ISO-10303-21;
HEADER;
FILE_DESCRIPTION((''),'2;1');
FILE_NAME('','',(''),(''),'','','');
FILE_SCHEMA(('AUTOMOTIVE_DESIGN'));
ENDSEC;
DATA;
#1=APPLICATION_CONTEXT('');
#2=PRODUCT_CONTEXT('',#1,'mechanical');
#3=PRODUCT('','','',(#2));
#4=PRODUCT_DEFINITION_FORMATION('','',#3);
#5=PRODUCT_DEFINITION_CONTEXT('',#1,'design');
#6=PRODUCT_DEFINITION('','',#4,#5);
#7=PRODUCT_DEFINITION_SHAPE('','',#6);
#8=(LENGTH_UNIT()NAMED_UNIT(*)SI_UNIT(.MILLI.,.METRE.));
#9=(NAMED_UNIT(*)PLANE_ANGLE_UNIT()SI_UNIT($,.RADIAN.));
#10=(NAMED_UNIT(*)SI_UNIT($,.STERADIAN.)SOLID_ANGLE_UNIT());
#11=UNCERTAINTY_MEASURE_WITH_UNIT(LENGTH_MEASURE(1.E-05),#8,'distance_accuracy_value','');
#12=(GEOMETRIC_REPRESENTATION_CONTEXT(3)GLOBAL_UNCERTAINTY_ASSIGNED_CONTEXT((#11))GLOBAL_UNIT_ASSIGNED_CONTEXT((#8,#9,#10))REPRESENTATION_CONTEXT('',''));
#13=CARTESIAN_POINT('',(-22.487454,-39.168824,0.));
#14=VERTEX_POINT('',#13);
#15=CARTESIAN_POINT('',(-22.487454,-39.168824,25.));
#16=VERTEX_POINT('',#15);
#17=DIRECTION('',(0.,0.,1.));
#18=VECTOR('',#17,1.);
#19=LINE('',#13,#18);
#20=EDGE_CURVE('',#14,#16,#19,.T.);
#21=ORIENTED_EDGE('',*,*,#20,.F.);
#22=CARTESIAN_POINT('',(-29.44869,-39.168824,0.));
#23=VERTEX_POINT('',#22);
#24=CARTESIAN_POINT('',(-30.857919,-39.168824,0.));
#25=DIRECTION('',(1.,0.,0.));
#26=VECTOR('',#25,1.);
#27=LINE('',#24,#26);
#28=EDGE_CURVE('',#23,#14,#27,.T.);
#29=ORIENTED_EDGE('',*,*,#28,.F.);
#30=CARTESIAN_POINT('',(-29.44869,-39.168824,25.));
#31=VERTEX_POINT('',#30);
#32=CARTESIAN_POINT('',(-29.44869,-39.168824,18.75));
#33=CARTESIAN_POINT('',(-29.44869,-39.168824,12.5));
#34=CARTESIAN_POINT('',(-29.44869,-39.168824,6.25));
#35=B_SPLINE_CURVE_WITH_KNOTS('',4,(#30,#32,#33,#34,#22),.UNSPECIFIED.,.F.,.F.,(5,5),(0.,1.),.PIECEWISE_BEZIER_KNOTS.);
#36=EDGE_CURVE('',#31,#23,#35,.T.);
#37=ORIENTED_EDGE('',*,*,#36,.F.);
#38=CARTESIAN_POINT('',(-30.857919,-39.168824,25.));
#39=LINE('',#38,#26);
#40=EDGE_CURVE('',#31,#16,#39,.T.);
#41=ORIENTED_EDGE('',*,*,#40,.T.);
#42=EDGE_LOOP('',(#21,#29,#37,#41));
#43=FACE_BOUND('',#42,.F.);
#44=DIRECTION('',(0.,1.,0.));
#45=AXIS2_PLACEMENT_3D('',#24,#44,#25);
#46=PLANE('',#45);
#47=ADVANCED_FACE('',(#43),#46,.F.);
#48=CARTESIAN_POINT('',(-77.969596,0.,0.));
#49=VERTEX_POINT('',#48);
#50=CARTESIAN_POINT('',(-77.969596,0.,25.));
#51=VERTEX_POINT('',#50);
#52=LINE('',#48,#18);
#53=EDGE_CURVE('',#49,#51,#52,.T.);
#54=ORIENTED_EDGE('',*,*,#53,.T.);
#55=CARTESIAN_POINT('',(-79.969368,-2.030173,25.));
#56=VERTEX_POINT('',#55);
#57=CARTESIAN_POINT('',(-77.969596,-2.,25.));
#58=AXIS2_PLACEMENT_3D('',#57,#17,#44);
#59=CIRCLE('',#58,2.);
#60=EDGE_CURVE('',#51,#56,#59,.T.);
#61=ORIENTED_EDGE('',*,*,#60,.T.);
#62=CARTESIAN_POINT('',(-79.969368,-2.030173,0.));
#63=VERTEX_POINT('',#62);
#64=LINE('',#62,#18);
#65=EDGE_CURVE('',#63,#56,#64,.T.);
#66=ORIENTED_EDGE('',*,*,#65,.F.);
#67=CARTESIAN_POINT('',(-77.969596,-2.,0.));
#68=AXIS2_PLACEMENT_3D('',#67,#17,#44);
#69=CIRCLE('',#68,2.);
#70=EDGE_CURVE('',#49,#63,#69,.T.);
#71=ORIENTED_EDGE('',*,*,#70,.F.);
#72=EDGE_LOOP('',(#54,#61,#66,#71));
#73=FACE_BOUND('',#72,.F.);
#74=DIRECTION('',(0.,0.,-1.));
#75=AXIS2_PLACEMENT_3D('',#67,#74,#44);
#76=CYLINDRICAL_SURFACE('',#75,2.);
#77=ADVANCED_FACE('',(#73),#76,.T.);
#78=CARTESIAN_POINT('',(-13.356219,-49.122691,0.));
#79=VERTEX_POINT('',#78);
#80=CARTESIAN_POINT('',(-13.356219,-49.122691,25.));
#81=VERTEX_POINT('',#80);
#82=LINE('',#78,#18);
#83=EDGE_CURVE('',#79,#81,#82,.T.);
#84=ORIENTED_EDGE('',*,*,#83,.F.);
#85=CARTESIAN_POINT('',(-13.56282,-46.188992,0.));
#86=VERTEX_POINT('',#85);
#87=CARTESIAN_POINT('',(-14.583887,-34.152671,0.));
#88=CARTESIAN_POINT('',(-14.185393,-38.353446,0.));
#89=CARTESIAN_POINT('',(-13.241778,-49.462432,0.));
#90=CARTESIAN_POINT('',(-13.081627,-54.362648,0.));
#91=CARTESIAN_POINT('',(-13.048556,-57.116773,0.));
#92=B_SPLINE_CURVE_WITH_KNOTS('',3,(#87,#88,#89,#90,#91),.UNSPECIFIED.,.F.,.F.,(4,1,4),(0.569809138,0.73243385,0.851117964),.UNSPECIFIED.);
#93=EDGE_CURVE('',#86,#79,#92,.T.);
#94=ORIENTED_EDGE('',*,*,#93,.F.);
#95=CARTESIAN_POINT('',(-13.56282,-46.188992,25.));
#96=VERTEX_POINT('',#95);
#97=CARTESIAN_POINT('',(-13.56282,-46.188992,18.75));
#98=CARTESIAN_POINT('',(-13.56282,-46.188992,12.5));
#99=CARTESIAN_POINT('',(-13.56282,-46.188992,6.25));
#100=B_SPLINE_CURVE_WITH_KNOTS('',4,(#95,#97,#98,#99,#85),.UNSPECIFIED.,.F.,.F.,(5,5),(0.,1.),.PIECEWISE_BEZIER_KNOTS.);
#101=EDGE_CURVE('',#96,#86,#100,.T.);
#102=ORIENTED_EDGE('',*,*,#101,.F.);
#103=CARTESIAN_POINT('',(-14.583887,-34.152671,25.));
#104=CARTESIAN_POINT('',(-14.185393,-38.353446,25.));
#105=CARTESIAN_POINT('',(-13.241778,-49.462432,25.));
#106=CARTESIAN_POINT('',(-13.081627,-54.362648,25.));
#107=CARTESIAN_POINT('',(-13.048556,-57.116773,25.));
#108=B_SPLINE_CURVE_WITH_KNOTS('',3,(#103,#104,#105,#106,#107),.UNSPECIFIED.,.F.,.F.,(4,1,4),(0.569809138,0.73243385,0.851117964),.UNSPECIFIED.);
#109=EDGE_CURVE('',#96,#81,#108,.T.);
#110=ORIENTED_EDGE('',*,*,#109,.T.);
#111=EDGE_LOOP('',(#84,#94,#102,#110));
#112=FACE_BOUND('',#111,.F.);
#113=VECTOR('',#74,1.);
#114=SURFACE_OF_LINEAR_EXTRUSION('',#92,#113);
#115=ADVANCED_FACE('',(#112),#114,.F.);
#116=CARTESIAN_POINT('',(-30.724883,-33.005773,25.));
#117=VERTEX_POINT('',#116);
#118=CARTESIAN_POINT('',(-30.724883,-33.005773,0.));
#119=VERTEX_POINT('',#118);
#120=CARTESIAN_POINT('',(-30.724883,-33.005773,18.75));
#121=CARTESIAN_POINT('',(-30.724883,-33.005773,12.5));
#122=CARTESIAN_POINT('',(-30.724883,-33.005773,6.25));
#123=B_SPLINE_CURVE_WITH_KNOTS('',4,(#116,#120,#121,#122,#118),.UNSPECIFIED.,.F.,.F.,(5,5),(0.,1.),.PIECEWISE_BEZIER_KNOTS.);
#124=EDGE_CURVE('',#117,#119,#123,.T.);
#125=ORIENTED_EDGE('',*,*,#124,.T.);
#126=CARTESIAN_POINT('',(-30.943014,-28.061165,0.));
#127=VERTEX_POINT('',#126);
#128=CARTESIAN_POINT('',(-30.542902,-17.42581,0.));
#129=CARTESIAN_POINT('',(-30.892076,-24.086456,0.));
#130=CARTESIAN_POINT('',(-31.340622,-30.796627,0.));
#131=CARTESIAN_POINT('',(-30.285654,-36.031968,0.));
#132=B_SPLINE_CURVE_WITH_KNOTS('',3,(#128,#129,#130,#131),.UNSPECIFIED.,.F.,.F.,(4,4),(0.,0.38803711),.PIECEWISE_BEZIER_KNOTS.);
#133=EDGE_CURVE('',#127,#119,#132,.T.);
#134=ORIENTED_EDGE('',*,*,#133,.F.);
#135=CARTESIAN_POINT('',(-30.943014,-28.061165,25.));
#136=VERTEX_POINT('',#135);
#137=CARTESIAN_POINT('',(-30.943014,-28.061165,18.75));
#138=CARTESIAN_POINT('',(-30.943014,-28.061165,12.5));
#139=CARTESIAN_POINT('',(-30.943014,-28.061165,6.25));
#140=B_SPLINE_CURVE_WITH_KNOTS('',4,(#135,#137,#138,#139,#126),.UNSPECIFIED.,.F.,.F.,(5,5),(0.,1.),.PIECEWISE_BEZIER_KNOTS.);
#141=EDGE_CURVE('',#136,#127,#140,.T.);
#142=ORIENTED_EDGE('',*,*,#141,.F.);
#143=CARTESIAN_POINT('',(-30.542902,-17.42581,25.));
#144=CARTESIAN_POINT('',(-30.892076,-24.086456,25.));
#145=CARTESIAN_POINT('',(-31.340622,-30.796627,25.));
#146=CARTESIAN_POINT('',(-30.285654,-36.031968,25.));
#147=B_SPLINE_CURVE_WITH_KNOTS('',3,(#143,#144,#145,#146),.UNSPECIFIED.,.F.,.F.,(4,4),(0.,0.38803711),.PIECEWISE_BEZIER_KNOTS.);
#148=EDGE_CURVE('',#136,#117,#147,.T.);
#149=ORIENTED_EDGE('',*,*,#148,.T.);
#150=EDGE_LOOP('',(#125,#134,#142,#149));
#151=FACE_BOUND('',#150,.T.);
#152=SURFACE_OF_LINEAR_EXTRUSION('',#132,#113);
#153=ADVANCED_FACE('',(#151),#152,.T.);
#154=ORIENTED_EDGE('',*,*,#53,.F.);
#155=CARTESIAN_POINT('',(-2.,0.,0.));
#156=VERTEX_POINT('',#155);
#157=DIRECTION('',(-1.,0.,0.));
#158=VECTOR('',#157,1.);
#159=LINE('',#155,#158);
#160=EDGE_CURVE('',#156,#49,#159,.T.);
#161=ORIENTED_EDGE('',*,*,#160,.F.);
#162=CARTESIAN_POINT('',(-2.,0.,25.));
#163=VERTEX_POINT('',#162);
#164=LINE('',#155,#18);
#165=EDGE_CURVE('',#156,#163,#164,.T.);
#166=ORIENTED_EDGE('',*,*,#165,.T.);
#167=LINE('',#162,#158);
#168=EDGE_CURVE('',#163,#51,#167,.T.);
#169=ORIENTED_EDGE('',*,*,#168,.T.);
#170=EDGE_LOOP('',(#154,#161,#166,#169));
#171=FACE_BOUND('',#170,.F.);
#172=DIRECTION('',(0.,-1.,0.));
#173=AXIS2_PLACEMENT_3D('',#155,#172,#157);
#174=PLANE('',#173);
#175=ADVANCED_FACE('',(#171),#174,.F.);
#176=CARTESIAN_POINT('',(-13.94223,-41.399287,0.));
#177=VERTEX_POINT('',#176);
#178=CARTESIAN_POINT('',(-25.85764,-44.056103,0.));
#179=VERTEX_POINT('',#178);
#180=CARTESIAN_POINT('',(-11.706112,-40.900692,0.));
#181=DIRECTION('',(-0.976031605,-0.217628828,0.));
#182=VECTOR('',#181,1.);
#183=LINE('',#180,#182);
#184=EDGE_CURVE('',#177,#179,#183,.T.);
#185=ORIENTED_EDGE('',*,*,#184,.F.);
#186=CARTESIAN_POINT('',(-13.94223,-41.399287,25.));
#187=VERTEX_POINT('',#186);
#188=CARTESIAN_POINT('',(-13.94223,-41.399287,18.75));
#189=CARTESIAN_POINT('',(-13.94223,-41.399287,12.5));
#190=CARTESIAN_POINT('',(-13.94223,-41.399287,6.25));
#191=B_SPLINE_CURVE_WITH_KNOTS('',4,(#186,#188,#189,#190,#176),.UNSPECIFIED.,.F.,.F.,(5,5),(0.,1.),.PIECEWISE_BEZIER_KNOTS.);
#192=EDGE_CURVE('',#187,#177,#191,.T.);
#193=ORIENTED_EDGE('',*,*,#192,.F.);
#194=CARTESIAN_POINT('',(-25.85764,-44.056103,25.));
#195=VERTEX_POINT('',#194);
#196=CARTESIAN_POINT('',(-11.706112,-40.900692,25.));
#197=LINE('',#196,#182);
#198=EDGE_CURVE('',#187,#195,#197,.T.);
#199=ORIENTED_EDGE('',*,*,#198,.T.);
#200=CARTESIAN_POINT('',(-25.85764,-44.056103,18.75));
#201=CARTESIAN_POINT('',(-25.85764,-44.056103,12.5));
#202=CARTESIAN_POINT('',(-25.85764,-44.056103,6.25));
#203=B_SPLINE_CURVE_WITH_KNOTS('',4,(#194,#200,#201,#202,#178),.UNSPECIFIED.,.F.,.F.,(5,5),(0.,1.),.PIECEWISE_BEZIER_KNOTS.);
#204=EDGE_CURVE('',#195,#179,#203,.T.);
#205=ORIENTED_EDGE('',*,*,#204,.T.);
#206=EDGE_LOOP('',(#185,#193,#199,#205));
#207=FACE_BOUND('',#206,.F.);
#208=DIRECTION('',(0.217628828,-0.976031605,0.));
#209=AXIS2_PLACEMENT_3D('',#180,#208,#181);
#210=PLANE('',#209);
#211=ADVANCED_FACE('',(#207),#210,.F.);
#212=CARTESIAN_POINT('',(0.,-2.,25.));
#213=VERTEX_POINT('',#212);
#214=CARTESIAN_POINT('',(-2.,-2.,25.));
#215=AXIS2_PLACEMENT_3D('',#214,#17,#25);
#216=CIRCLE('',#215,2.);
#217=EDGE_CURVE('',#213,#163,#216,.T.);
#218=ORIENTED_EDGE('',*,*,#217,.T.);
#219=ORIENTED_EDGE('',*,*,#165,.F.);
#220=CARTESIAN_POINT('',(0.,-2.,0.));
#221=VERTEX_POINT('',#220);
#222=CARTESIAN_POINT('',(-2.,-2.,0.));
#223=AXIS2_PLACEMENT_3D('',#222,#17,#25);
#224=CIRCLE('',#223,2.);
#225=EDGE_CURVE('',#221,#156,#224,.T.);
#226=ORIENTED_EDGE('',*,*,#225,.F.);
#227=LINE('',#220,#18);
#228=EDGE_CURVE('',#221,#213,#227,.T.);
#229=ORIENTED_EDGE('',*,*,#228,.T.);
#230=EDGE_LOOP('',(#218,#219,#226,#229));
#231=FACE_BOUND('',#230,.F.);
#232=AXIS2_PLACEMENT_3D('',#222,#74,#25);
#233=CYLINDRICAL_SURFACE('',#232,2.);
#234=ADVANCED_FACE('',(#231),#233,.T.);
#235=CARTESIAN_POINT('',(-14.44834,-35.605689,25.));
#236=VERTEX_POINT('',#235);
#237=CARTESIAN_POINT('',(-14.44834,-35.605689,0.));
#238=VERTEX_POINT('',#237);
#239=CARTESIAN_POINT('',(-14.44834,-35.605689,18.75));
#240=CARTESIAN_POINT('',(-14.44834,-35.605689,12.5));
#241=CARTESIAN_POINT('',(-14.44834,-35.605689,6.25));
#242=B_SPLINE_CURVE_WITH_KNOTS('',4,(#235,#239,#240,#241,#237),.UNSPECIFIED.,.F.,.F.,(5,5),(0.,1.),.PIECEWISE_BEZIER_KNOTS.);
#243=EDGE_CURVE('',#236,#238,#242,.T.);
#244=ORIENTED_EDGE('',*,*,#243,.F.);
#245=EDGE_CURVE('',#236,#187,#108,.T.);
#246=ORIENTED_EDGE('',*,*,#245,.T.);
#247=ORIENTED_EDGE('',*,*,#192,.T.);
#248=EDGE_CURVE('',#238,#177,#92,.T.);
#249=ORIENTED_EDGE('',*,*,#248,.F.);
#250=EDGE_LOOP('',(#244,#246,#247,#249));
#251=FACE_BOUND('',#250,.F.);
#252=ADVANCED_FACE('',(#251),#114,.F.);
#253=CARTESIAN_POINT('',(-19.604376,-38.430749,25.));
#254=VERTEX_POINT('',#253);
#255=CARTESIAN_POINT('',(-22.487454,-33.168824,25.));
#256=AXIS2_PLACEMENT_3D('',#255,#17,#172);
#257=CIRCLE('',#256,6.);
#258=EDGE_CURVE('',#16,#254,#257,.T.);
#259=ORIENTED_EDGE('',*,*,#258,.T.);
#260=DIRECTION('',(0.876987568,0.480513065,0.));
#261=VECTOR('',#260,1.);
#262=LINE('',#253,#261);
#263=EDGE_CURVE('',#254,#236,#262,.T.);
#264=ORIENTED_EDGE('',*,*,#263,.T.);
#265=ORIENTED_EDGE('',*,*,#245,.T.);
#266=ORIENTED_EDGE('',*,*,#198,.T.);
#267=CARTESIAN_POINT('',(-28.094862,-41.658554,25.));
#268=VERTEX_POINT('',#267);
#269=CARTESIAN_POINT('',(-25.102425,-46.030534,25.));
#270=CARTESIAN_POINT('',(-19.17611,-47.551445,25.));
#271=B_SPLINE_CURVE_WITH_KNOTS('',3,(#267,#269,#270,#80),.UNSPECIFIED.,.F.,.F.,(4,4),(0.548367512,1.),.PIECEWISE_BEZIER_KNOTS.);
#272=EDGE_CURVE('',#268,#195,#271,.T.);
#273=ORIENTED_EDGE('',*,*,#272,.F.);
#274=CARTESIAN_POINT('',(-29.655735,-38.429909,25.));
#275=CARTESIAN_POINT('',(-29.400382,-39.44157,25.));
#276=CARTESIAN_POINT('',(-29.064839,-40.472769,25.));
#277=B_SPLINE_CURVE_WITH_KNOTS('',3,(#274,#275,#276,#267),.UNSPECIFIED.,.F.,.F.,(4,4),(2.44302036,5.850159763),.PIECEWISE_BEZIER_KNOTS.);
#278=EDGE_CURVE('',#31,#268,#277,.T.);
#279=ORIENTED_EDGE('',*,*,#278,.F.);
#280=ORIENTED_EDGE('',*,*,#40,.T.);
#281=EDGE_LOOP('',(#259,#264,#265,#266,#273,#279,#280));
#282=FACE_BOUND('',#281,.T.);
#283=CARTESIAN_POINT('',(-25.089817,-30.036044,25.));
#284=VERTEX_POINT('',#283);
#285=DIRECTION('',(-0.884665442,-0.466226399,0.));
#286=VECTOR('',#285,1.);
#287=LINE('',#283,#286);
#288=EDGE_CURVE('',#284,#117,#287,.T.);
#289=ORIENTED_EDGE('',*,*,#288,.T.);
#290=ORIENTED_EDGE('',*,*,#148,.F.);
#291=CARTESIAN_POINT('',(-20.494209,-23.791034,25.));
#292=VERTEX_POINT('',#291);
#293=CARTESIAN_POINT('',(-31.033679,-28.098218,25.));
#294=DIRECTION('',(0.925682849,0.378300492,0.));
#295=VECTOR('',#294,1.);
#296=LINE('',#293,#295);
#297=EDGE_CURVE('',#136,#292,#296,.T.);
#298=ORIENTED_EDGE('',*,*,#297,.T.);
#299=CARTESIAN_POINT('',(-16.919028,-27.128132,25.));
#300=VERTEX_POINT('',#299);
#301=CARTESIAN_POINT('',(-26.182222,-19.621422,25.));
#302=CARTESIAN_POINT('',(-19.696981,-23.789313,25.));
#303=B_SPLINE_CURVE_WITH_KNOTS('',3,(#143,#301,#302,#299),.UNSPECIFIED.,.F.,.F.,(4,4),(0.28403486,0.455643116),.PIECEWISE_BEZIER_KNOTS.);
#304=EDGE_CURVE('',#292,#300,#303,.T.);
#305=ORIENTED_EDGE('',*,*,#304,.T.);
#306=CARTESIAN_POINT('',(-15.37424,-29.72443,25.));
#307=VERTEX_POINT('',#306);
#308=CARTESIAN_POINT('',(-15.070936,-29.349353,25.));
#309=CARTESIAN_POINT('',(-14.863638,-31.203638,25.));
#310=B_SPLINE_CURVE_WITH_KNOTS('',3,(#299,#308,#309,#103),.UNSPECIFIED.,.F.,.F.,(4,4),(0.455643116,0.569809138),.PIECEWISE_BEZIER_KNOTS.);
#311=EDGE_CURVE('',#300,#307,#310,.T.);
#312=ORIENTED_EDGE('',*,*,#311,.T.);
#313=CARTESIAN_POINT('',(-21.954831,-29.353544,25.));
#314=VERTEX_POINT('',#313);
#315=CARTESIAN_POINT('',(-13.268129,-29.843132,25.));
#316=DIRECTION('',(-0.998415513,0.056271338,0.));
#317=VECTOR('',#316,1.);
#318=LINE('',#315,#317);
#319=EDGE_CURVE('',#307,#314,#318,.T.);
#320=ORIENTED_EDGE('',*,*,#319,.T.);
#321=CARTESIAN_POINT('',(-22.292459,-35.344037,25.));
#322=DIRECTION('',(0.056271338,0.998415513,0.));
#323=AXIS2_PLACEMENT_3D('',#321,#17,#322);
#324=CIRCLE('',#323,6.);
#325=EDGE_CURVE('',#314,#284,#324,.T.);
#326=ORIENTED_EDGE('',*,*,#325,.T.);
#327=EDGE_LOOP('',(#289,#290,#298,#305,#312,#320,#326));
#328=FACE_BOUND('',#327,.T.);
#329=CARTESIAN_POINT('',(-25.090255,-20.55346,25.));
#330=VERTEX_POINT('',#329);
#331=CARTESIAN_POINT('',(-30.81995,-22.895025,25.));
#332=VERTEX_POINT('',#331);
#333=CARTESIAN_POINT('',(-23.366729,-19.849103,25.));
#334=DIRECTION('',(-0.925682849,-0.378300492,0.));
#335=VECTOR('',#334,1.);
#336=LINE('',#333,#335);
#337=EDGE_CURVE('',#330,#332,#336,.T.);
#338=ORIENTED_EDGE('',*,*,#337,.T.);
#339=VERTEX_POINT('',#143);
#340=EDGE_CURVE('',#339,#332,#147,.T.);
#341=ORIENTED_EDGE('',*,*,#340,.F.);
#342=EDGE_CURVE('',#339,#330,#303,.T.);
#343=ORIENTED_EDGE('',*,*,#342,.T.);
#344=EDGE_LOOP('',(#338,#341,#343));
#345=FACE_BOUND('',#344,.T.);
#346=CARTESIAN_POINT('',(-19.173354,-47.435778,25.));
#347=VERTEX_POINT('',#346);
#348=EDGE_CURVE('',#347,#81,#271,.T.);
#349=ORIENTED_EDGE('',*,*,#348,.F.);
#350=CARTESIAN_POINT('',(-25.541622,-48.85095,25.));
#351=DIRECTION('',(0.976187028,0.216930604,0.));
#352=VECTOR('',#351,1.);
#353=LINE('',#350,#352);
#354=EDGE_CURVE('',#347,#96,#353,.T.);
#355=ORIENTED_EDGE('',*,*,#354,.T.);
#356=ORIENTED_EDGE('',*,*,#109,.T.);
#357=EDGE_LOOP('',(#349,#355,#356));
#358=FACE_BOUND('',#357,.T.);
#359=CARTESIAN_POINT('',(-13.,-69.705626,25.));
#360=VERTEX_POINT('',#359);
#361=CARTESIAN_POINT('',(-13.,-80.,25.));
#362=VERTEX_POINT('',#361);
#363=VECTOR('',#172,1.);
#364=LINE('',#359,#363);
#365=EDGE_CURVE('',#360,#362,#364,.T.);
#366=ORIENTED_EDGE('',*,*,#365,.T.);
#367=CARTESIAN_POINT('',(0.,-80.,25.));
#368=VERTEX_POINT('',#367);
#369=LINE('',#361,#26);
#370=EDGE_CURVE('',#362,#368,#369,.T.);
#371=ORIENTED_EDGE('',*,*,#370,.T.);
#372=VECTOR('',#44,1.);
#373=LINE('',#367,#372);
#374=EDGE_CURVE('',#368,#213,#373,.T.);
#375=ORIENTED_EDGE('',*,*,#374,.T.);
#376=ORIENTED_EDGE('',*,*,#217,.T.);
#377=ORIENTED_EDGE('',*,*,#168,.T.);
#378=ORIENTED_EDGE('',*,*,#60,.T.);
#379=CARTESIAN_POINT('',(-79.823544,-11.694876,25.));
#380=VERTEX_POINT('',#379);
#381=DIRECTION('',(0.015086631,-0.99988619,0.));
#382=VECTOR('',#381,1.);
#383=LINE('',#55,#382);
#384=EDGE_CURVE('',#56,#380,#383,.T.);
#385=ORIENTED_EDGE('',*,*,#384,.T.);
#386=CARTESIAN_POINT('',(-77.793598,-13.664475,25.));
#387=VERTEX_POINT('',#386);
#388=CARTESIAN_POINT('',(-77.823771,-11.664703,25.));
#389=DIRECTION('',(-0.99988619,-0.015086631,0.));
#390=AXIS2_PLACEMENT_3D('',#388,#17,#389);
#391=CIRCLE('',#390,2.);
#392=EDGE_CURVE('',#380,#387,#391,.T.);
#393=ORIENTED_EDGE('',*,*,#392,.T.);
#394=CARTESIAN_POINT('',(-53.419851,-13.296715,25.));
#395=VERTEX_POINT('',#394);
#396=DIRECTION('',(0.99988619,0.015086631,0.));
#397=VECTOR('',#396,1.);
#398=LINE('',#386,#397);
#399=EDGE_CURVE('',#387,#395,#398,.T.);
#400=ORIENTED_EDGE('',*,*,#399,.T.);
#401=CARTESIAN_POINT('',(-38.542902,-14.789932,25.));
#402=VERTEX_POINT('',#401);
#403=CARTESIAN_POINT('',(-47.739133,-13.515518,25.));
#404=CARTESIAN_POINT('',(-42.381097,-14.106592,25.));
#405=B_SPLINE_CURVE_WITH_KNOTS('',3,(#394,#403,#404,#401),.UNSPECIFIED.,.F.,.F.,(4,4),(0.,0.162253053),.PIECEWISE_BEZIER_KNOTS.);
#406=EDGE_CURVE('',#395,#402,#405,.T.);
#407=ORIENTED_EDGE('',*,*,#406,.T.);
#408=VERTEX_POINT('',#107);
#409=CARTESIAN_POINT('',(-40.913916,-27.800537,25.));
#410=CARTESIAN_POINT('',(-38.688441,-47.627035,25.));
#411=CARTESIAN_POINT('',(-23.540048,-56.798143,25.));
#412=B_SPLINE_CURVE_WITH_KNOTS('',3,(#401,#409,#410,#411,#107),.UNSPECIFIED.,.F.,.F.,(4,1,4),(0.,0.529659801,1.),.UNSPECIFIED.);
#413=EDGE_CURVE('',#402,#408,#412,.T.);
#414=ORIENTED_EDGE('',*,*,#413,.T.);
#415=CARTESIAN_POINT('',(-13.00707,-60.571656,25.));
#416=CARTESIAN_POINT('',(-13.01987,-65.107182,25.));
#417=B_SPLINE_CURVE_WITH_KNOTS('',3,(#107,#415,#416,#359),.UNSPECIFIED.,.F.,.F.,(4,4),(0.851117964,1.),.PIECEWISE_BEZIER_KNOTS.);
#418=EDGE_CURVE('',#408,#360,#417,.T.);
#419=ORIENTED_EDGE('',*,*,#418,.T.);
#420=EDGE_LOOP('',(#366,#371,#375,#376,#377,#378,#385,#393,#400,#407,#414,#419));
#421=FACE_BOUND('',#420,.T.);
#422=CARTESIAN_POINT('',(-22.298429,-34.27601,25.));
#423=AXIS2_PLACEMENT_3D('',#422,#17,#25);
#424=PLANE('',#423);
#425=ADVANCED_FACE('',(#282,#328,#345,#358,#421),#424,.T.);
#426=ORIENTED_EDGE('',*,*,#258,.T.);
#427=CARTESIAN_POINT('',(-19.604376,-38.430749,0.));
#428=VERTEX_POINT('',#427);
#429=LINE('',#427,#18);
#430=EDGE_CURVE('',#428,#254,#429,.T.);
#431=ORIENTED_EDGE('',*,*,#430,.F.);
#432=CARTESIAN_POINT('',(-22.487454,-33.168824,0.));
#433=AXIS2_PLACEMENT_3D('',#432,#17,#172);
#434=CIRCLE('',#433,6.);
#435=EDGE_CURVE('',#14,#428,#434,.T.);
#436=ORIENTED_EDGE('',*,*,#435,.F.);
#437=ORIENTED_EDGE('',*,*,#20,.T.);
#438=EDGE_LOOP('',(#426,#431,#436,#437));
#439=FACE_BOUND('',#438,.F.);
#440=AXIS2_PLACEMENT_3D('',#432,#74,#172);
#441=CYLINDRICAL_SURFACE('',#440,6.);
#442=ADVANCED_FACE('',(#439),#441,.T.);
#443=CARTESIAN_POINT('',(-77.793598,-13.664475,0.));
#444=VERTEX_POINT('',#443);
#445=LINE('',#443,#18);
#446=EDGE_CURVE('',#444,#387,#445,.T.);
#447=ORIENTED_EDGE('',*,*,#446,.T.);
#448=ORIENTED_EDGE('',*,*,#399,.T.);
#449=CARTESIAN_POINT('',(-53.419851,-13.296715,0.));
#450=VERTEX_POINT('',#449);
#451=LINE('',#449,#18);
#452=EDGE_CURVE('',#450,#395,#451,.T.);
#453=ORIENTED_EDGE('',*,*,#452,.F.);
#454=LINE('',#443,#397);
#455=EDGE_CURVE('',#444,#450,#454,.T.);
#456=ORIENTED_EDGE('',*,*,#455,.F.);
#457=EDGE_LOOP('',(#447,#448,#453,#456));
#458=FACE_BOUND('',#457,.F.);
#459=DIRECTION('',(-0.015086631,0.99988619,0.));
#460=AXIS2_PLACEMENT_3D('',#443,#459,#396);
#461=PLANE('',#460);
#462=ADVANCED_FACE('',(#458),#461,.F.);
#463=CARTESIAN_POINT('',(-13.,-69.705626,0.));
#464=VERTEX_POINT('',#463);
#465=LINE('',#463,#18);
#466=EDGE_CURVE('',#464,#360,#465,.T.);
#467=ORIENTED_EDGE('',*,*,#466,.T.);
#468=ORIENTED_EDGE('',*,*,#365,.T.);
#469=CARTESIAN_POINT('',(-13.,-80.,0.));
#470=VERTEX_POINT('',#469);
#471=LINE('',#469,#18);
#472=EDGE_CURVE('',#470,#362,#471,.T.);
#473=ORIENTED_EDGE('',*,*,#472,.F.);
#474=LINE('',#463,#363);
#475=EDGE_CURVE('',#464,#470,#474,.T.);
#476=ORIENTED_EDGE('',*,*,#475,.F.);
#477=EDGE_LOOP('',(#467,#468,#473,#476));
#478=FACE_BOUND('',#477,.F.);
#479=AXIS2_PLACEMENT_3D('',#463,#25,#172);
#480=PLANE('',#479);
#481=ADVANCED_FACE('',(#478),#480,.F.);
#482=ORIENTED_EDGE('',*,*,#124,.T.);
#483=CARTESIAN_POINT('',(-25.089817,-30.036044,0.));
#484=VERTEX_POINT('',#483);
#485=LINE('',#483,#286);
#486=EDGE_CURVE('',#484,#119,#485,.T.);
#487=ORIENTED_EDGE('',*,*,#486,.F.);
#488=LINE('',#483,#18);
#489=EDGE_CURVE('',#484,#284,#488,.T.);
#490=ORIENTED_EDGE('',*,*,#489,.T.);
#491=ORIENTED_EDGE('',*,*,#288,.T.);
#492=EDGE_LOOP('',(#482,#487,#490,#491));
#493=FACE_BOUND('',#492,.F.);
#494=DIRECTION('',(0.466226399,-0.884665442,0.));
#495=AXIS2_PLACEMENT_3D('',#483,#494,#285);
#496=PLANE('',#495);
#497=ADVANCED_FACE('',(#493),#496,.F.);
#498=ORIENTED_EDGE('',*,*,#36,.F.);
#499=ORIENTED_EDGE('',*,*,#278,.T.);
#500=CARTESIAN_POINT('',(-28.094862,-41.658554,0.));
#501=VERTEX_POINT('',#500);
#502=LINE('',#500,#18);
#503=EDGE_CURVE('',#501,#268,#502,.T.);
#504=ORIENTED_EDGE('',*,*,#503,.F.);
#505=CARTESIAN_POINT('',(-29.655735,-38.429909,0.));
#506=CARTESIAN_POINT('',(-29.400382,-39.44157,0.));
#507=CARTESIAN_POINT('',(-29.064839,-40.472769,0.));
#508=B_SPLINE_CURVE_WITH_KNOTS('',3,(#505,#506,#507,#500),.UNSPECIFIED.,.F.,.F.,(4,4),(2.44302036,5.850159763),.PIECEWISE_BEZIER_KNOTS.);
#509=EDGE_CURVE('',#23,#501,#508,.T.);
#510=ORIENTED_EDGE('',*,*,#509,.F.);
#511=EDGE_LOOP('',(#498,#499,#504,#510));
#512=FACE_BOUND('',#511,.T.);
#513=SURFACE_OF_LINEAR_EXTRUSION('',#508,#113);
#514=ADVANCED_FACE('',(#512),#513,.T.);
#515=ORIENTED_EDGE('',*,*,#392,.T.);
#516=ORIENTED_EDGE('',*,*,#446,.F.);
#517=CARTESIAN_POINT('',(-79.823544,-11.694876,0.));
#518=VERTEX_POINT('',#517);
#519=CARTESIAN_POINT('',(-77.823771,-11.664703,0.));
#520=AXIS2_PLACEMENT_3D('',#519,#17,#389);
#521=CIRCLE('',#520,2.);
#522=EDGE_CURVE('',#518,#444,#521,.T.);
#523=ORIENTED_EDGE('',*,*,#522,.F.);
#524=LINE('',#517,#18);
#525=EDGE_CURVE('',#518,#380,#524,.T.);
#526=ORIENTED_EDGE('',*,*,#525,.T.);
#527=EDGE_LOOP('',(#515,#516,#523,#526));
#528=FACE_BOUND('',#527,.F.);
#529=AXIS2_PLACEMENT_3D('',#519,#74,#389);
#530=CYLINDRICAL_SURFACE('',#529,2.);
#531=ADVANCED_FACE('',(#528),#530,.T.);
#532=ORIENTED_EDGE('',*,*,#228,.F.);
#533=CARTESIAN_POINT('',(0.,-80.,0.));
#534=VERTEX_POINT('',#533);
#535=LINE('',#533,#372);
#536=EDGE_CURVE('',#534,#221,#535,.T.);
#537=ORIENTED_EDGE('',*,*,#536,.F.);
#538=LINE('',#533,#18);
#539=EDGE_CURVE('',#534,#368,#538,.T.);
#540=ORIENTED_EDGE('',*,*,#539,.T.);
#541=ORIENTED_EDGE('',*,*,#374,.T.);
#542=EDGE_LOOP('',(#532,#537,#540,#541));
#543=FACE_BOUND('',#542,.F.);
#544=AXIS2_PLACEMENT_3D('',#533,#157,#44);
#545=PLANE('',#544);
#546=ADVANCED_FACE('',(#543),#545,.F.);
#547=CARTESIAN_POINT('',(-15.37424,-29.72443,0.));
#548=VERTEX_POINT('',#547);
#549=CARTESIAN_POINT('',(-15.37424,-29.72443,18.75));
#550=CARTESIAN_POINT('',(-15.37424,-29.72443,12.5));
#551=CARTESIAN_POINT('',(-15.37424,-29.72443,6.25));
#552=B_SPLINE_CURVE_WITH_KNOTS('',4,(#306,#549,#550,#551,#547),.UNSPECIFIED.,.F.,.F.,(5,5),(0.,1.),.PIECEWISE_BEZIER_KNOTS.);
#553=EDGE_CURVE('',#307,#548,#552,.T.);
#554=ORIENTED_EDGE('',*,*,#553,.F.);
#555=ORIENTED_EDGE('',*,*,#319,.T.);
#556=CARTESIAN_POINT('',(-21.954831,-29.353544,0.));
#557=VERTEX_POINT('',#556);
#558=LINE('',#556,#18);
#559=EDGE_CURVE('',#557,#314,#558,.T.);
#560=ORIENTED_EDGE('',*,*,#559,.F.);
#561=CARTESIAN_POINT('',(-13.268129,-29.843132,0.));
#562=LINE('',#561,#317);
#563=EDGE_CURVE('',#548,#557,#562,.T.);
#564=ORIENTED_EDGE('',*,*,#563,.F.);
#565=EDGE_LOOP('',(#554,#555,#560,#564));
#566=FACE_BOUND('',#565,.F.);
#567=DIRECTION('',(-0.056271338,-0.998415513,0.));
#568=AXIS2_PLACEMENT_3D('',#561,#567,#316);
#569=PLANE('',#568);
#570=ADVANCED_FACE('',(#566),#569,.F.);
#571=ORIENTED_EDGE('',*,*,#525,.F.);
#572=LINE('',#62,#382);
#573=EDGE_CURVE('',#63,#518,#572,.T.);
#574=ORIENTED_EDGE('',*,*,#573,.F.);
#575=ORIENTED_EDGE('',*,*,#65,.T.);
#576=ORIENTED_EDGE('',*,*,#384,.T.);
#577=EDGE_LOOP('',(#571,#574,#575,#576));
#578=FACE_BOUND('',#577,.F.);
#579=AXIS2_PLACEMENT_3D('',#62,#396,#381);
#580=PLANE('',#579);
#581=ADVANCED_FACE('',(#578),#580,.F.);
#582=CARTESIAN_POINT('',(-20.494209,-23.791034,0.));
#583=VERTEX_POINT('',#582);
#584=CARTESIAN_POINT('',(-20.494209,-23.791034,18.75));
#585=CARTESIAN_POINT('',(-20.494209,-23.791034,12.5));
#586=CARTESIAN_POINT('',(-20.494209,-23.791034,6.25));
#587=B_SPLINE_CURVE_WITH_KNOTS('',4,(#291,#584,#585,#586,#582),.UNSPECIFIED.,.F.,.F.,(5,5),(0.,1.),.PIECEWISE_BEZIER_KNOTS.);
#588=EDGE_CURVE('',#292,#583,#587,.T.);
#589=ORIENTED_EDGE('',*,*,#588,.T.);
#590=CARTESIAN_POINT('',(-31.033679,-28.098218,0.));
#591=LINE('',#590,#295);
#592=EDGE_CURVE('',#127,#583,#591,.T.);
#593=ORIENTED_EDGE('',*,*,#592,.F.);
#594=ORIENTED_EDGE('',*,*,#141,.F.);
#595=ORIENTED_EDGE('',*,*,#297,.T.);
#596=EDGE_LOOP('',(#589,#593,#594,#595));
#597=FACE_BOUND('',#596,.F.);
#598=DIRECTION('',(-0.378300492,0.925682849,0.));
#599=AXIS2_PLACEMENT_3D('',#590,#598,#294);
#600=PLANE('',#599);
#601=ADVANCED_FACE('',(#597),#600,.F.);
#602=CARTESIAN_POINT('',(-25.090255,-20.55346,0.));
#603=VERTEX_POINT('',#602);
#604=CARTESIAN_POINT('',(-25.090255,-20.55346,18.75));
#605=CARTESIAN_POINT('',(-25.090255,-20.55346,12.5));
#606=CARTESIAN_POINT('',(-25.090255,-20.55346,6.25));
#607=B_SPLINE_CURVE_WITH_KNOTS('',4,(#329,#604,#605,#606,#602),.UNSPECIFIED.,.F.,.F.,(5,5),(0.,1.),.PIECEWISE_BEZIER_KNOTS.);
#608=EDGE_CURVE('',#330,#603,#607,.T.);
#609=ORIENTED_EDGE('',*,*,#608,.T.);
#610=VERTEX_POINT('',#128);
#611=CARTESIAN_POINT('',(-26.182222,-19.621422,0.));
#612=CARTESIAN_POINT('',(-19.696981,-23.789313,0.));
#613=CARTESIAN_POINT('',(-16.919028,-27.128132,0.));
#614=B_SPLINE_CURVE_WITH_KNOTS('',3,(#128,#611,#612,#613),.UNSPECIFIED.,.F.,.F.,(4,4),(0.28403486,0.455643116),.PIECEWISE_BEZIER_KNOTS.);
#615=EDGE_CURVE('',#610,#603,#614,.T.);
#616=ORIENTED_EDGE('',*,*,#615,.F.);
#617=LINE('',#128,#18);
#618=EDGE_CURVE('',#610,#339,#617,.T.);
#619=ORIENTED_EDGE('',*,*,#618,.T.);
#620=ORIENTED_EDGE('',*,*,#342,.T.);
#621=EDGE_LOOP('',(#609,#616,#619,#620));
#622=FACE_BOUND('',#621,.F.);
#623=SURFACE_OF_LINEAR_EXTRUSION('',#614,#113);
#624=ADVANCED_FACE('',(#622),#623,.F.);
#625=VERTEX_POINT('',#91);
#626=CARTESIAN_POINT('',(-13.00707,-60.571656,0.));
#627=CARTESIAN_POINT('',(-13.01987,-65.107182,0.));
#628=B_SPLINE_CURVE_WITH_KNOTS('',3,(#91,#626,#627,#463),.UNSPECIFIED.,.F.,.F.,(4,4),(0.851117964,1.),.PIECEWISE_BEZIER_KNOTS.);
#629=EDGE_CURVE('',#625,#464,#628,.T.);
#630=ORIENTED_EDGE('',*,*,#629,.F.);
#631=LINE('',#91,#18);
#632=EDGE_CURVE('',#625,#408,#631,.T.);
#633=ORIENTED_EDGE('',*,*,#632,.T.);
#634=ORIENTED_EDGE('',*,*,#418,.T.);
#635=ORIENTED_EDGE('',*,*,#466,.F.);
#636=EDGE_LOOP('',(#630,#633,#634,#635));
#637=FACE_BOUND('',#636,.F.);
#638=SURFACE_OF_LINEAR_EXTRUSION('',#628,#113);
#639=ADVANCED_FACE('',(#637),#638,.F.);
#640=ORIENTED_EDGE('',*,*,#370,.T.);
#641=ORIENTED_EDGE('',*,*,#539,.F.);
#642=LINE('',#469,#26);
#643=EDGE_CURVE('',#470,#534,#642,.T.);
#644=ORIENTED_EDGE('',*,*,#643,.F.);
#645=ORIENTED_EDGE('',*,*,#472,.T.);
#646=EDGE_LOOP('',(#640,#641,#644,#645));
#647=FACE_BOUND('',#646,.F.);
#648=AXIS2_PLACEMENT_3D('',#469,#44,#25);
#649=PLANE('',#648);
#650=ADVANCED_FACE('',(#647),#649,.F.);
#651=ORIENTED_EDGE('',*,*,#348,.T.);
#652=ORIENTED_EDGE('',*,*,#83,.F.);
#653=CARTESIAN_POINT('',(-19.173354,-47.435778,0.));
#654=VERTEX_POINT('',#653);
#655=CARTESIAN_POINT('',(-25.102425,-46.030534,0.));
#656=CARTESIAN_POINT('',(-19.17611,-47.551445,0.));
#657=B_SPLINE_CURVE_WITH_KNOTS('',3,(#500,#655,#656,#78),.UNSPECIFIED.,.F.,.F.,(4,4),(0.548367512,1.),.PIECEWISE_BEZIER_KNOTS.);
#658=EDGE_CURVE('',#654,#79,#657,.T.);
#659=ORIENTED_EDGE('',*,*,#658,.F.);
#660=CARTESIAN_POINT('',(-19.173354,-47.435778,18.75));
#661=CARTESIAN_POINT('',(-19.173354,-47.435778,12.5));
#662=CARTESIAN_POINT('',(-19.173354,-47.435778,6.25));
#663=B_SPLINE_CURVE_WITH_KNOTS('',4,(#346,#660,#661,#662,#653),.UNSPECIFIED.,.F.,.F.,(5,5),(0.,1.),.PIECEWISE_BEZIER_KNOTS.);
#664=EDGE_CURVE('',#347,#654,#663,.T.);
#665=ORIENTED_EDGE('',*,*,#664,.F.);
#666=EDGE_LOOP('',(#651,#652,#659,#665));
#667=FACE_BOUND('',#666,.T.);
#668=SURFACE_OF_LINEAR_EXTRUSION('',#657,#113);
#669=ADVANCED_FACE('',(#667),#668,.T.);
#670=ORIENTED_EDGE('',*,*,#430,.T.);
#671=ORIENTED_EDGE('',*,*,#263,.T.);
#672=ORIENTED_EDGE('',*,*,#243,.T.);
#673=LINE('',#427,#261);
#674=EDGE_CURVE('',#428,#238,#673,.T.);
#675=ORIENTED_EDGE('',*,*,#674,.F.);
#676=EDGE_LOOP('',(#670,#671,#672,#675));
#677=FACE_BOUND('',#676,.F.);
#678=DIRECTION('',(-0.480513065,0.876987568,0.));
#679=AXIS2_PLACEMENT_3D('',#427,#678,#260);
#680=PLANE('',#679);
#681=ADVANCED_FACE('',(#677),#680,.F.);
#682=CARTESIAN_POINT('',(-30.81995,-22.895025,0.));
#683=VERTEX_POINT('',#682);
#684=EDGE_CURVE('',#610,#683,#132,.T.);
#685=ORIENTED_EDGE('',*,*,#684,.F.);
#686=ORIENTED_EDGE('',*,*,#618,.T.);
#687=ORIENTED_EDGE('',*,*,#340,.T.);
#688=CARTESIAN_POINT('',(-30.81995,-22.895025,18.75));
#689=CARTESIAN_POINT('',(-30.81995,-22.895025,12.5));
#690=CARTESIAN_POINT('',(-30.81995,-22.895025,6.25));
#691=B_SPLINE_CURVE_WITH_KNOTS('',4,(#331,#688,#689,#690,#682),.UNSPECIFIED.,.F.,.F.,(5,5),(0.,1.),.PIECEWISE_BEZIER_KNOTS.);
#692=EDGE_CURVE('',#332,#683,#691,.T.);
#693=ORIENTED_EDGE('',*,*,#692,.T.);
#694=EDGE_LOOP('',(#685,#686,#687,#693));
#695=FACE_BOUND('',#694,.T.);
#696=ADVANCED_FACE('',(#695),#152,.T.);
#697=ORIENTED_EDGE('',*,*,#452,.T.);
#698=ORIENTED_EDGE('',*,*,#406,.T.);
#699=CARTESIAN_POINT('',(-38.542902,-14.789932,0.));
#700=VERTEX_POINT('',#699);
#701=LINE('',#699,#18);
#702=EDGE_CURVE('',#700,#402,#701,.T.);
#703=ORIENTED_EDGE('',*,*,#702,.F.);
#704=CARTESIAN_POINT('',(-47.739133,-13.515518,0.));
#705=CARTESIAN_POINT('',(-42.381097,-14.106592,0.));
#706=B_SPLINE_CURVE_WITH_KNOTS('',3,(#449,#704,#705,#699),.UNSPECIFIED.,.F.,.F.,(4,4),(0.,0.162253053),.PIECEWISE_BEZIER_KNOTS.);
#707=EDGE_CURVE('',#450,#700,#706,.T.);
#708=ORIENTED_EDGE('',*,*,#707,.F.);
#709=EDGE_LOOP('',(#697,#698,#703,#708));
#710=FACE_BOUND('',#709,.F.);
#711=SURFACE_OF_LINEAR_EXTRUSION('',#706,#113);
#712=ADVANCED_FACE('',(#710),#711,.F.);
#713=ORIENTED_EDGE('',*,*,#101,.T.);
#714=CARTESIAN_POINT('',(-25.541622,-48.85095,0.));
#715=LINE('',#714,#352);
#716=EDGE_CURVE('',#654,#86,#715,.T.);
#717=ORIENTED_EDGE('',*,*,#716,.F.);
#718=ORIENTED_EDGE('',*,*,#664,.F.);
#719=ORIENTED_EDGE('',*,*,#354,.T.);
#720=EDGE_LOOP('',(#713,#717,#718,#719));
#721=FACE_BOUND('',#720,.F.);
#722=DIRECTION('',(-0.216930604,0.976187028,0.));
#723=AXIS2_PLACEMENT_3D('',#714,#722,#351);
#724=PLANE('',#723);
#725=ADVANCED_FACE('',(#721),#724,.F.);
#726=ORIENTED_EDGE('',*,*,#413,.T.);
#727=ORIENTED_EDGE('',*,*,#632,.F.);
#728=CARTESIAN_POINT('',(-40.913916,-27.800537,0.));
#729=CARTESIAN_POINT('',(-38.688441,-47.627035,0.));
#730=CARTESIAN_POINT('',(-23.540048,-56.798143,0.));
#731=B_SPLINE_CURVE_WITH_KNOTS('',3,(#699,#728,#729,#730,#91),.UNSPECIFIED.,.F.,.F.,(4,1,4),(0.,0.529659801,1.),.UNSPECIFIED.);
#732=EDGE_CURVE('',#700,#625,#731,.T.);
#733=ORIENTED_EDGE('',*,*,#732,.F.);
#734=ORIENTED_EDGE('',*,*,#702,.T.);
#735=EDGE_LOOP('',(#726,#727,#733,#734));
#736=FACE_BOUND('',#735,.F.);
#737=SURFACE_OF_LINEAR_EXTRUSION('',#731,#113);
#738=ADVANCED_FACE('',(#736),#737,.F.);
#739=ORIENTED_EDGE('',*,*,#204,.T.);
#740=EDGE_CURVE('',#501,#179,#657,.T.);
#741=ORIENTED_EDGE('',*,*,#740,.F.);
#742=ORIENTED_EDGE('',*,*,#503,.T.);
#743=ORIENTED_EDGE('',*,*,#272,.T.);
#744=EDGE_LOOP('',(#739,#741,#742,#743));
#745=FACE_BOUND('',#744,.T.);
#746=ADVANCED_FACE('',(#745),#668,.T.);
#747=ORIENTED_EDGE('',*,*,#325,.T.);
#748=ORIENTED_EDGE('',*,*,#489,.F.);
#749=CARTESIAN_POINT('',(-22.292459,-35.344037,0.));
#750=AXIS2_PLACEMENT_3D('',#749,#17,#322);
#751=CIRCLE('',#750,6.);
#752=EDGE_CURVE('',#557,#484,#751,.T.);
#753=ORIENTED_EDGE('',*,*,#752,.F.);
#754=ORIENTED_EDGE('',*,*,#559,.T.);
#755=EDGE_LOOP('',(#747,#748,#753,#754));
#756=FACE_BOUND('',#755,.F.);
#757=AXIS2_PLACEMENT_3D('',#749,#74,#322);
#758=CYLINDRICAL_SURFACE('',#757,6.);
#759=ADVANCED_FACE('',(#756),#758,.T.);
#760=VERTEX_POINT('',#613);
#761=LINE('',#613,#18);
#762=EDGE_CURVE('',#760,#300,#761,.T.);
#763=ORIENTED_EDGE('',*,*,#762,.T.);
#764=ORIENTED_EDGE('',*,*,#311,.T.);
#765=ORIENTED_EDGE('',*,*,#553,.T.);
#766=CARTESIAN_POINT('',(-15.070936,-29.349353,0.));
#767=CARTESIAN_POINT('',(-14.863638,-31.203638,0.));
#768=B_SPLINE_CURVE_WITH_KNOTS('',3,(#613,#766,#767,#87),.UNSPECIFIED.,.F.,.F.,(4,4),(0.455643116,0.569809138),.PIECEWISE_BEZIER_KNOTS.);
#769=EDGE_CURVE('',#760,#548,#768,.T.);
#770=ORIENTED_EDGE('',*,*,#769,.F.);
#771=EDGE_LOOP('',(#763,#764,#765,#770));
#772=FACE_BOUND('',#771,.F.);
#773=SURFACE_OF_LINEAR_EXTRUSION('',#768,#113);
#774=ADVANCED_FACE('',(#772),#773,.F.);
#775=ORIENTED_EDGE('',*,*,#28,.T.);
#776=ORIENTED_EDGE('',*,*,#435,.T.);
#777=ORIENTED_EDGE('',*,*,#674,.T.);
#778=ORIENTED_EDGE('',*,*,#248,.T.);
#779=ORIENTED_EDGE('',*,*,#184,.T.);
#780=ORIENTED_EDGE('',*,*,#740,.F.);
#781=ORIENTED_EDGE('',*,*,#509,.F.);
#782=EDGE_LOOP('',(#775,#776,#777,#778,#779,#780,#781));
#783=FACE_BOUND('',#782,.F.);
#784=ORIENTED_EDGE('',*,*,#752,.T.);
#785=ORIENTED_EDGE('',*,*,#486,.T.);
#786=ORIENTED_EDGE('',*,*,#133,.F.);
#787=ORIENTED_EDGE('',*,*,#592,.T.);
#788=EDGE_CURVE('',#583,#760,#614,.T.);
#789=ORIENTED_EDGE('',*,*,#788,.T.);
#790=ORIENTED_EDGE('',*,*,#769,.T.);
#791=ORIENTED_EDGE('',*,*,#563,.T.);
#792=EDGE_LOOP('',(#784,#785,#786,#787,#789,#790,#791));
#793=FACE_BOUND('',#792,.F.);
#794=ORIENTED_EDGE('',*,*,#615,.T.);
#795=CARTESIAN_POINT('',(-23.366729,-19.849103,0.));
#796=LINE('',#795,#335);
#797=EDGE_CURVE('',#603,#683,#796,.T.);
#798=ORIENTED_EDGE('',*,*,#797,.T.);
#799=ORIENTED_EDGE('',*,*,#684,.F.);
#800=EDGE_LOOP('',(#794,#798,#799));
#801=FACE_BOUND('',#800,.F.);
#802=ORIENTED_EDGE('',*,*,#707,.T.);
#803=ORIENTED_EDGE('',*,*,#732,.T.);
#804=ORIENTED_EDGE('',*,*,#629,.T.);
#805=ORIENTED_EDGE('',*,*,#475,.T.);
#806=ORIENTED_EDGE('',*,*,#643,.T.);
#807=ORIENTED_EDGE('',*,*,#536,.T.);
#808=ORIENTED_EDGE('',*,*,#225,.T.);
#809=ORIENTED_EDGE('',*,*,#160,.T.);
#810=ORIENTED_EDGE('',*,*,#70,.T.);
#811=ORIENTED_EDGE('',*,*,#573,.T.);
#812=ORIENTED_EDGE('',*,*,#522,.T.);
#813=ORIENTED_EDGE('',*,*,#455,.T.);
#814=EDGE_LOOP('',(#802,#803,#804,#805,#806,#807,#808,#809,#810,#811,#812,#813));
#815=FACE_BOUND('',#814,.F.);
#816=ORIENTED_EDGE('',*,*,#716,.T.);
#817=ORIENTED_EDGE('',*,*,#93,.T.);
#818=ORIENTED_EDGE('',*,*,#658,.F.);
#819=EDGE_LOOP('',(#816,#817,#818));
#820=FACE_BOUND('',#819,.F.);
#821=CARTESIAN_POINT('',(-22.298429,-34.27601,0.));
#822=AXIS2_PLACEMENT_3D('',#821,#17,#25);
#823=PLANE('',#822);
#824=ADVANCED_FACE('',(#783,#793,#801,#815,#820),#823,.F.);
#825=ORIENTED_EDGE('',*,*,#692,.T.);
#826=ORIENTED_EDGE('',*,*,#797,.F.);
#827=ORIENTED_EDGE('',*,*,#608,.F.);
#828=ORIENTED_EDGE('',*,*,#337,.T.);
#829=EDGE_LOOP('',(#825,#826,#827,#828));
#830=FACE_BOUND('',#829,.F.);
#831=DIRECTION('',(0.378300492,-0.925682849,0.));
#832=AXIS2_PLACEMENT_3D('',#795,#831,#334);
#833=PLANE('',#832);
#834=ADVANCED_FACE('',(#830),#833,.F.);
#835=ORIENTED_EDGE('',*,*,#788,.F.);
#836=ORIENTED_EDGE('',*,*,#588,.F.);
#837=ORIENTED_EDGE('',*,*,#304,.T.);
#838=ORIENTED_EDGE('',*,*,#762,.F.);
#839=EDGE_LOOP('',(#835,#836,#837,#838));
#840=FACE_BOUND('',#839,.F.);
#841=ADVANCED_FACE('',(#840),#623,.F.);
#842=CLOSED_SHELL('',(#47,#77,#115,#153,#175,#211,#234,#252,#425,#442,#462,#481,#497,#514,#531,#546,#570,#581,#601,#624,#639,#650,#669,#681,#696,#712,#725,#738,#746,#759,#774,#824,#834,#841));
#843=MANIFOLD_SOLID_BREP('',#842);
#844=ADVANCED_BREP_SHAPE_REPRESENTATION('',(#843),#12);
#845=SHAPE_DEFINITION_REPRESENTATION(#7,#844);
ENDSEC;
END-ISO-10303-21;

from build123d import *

# Parameters (mm, degrees)
F1_DEPTH = 25
F3_DEPTH = 25


with BuildPart() as f1:
    # F0 (on Top) → F1 (new body)
    with BuildSketch(Plane.XY):
        with BuildLine():
            Line((0, -80), (0, -2))
            ThreePointArc((0, -2), (-0.5857864376, -0.5857864376), (-2, 0))
            Line((-2, 0), (-77.9695956579, 0))
            ThreePointArc((-77.9695956579, 0), (-79.3944371446, -0.5964948388), (-79.9693680385, -2.0301732624))
            Line((-79.9693680385, -2.0301732624), (-79.8235436371, -11.6948759406))
            ThreePointArc((-79.8235436371, -11.6948759406), (-79.2164881491, -13.1000910078), (-77.793597994, -13.6644750587))
            Line((-77.793597994, -13.6644750587), (-53.4198508516, -13.2967154695))
            add(Edge.make_bspline(
                [(-53.4198508516, -13.2967154695), (-47.7391326457, -13.5155175895), (-42.3810972533, -14.1065922457), (-38.542901615, -14.7899318492)],
                knots=[0, 0, 0, 0, 0.162253053, 0.162253053, 0.162253053, 0.162253053], degree=3))
            add(Edge.make_bspline(
                [(-38.542901615, -14.7899318492), (-35.6620781643, -15.3028240882), (-33.637457964, -15.8676938778), (-30.542901615, -17.425809837)],
                knots=[0.162253053, 0.162253053, 0.162253053, 0.162253053, 0.28403486, 0.28403486, 0.28403486, 0.28403486], degree=3))
            add(Edge.make_bspline(
                [(-30.542901615, -17.425809837), (-26.1822221976, -19.6214215586), (-19.6969808737, -23.7893126338), (-16.9190281723, -27.1281322878)],
                knots=[0.28403486, 0.28403486, 0.28403486, 0.28403486, 0.4556431162, 0.4556431162, 0.4556431162, 0.4556431162], degree=3))
            add(Edge.make_bspline(
                [(-16.9190281723, -27.1281322878), (-15.0709363906, -29.3493526709), (-14.8636375386, -31.2036378987), (-14.5838867171, -34.1526714679)],
                knots=[0.4556431162, 0.4556431162, 0.4556431162, 0.4556431162, 0.5698091378, 0.5698091378, 0.5698091378, 0.5698091378], degree=3))
            add(Edge.make_bspline(
                [(-14.5838867171, -34.1526714679), (-14.185393399, -38.3534461651), (-13.6398891789, -44.7755537277), (-13.3562185193, -49.1226911473)],
                knots=[0.5698091378, 0.5698091378, 0.5698091378, 0.5698091378, 0.7324338497, 0.7324338497, 0.7324338497, 0.7324338497], degree=3))
            add(Edge.make_bspline(
                [(-13.3562185193, -49.1226911473), (-13.1491946262, -52.2952480614), (-13.0816268013, -54.3626480299), (-13.0485558451, -57.1167729382)],
                knots=[0.7324338497, 0.7324338497, 0.7324338497, 0.7324338497, 0.851117964, 0.851117964, 0.851117964, 0.851117964], degree=3))
            add(Edge.make_bspline(
                [(-13.0485558451, -57.1167729382), (-13.0070703326, -60.5716558966), (-13.0198697257, -65.1071818251), (-13, -69.7056261365)],
                knots=[0.851117964, 0.851117964, 0.851117964, 0.851117964, 1, 1, 1, 1], degree=3))
            Line((-13, -69.7056261365), (-13, -80))
            Line((-13, -80), (0, -80))
        make_face()
        with BuildLine():
            add(Edge.make_bspline(
                [(-38.542901615, -14.7899318492), (-40.9139160013, -27.8005372261), (-38.6884407603, -47.6270350351), (-23.5400479968, -56.7981427702), (-13.0485558451, -57.1167729382)],
                knots=[0, 0, 0, 0, 0.5296598009, 1, 1, 1, 1], degree=3))
            Line((-13.0485558451, -57.1167729382), (-13.3562185193, -49.1226911473))
            add(Edge.make_bspline(
                [(-28.0948624921, -41.658554015), (-25.10242463, -46.0305335019), (-19.1761098596, -47.5514449335), (-13.3562185193, -49.1226911473)],
                knots=[0.5483675118, 0.5483675118, 0.5483675118, 0.5483675118, 1, 1, 1, 1], degree=3))
            add(Edge.make_bspline(
                [(-29.6557347838, -38.4299094695), (-29.4003822649, -39.4415698152), (-29.0648385357, -40.4727694453), (-28.0948624921, -41.658554015)],
                knots=[2.4430203601, 2.4430203601, 2.4430203601, 2.4430203601, 5.8501597635, 5.8501597635, 5.8501597635, 5.8501597635], degree=3))
            add(Edge.make_bspline(
                [(-30.1900775171, -36.4835122599), (-30.0399059836, -37.1596607946), (-29.863001925, -37.8096107603), (-29.6557347838, -38.4299094695)],
                knots=[0.399285872, 0.399285872, 0.399285872, 0.399285872, 0.4502459731, 0.4502459731, 0.4502459731, 0.4502459731], degree=3))
            add(Edge.make_bspline(
                [(-30.2856540448, -36.0319675746), (-30.2550717037, -36.1837342297), (-30.2232258771, -36.334261503), (-30.1900775171, -36.4835122599)],
                knots=[0.3880371104, 0.3880371104, 0.3880371104, 0.3880371104, 0.399285872, 0.399285872, 0.399285872, 0.399285872], degree=3))
            add(Edge.make_bspline(
                [(-30.542901615, -17.425809837), (-30.892076359, -24.086456269), (-31.3406220256, -30.7966273139), (-30.2856540448, -36.0319675746)],
                knots=[0, 0, 0, 0, 0.3880371104, 0.3880371104, 0.3880371104, 0.3880371104], degree=3))
            add(Edge.make_bspline(
                [(-38.542901615, -14.7899318492), (-35.6620781643, -15.3028240882), (-33.637457964, -15.8676938778), (-30.542901615, -17.425809837)],
                knots=[0.162253053, 0.162253053, 0.162253053, 0.162253053, 0.28403486, 0.28403486, 0.28403486, 0.28403486], degree=3))
        make_face()
        with BuildLine():
            Line((-13.3562185193, -49.1226911473), (-13.0485558451, -57.1167729382))
            add(Edge.make_bspline(
                [(-13.3562185193, -49.1226911473), (-13.1491946262, -52.2952480614), (-13.0816268013, -54.3626480299), (-13.0485558451, -57.1167729382)],
                knots=[0.7324338497, 0.7324338497, 0.7324338497, 0.7324338497, 0.851117964, 0.851117964, 0.851117964, 0.851117964], degree=3))
        make_face()
    extrude(amount=F1_DEPTH)

    # F2 (on Top) → F3 (join)
    with BuildSketch(Plane.XY):
        with BuildLine():
            Line((-25.0898172111, -30.0360443188), (-32.0051051676, -33.6804613471))
            Line((-32.0051051676, -33.6804613471), (-30.857918683, -39.1688235104))
            Line((-30.857918683, -39.1688235104), (-22.4874541369, -39.1688235104))
            ThreePointArc((-22.4874541369, -39.1688235104), (-20.9994273294, -38.981376841), (-19.6043757451, -38.4307489172))
            Line((-19.6043757451, -38.4307489172), (-12.428862974, -34.4991907477))
            Line((-12.428862974, -34.4991907477), (-13.2681293624, -29.8431319511))
            Line((-13.2681293624, -29.8431319511), (-21.9548307901, -29.3535438949))
            ThreePointArc((-21.9548307901, -29.3535438949), (-23.5687895254, -29.4813601163), (-25.0898172111, -30.0360443188))
        make_face()
        Polygon((-19.8781598252, -23.5392715438), (-23.3667287976, -19.8491029441), (-32.8251793981, -23.714505136), (-31.0336794844, -28.0982180313), align=None)
        Polygon((-11.7061119527, -40.9006923437), (-26.9871223718, -44.3079471588), (-25.5416221917, -48.8509498537), (-9.744361043, -45.3404448926), align=None)
    extrude(amount=F3_DEPTH)


solid = f1.part
